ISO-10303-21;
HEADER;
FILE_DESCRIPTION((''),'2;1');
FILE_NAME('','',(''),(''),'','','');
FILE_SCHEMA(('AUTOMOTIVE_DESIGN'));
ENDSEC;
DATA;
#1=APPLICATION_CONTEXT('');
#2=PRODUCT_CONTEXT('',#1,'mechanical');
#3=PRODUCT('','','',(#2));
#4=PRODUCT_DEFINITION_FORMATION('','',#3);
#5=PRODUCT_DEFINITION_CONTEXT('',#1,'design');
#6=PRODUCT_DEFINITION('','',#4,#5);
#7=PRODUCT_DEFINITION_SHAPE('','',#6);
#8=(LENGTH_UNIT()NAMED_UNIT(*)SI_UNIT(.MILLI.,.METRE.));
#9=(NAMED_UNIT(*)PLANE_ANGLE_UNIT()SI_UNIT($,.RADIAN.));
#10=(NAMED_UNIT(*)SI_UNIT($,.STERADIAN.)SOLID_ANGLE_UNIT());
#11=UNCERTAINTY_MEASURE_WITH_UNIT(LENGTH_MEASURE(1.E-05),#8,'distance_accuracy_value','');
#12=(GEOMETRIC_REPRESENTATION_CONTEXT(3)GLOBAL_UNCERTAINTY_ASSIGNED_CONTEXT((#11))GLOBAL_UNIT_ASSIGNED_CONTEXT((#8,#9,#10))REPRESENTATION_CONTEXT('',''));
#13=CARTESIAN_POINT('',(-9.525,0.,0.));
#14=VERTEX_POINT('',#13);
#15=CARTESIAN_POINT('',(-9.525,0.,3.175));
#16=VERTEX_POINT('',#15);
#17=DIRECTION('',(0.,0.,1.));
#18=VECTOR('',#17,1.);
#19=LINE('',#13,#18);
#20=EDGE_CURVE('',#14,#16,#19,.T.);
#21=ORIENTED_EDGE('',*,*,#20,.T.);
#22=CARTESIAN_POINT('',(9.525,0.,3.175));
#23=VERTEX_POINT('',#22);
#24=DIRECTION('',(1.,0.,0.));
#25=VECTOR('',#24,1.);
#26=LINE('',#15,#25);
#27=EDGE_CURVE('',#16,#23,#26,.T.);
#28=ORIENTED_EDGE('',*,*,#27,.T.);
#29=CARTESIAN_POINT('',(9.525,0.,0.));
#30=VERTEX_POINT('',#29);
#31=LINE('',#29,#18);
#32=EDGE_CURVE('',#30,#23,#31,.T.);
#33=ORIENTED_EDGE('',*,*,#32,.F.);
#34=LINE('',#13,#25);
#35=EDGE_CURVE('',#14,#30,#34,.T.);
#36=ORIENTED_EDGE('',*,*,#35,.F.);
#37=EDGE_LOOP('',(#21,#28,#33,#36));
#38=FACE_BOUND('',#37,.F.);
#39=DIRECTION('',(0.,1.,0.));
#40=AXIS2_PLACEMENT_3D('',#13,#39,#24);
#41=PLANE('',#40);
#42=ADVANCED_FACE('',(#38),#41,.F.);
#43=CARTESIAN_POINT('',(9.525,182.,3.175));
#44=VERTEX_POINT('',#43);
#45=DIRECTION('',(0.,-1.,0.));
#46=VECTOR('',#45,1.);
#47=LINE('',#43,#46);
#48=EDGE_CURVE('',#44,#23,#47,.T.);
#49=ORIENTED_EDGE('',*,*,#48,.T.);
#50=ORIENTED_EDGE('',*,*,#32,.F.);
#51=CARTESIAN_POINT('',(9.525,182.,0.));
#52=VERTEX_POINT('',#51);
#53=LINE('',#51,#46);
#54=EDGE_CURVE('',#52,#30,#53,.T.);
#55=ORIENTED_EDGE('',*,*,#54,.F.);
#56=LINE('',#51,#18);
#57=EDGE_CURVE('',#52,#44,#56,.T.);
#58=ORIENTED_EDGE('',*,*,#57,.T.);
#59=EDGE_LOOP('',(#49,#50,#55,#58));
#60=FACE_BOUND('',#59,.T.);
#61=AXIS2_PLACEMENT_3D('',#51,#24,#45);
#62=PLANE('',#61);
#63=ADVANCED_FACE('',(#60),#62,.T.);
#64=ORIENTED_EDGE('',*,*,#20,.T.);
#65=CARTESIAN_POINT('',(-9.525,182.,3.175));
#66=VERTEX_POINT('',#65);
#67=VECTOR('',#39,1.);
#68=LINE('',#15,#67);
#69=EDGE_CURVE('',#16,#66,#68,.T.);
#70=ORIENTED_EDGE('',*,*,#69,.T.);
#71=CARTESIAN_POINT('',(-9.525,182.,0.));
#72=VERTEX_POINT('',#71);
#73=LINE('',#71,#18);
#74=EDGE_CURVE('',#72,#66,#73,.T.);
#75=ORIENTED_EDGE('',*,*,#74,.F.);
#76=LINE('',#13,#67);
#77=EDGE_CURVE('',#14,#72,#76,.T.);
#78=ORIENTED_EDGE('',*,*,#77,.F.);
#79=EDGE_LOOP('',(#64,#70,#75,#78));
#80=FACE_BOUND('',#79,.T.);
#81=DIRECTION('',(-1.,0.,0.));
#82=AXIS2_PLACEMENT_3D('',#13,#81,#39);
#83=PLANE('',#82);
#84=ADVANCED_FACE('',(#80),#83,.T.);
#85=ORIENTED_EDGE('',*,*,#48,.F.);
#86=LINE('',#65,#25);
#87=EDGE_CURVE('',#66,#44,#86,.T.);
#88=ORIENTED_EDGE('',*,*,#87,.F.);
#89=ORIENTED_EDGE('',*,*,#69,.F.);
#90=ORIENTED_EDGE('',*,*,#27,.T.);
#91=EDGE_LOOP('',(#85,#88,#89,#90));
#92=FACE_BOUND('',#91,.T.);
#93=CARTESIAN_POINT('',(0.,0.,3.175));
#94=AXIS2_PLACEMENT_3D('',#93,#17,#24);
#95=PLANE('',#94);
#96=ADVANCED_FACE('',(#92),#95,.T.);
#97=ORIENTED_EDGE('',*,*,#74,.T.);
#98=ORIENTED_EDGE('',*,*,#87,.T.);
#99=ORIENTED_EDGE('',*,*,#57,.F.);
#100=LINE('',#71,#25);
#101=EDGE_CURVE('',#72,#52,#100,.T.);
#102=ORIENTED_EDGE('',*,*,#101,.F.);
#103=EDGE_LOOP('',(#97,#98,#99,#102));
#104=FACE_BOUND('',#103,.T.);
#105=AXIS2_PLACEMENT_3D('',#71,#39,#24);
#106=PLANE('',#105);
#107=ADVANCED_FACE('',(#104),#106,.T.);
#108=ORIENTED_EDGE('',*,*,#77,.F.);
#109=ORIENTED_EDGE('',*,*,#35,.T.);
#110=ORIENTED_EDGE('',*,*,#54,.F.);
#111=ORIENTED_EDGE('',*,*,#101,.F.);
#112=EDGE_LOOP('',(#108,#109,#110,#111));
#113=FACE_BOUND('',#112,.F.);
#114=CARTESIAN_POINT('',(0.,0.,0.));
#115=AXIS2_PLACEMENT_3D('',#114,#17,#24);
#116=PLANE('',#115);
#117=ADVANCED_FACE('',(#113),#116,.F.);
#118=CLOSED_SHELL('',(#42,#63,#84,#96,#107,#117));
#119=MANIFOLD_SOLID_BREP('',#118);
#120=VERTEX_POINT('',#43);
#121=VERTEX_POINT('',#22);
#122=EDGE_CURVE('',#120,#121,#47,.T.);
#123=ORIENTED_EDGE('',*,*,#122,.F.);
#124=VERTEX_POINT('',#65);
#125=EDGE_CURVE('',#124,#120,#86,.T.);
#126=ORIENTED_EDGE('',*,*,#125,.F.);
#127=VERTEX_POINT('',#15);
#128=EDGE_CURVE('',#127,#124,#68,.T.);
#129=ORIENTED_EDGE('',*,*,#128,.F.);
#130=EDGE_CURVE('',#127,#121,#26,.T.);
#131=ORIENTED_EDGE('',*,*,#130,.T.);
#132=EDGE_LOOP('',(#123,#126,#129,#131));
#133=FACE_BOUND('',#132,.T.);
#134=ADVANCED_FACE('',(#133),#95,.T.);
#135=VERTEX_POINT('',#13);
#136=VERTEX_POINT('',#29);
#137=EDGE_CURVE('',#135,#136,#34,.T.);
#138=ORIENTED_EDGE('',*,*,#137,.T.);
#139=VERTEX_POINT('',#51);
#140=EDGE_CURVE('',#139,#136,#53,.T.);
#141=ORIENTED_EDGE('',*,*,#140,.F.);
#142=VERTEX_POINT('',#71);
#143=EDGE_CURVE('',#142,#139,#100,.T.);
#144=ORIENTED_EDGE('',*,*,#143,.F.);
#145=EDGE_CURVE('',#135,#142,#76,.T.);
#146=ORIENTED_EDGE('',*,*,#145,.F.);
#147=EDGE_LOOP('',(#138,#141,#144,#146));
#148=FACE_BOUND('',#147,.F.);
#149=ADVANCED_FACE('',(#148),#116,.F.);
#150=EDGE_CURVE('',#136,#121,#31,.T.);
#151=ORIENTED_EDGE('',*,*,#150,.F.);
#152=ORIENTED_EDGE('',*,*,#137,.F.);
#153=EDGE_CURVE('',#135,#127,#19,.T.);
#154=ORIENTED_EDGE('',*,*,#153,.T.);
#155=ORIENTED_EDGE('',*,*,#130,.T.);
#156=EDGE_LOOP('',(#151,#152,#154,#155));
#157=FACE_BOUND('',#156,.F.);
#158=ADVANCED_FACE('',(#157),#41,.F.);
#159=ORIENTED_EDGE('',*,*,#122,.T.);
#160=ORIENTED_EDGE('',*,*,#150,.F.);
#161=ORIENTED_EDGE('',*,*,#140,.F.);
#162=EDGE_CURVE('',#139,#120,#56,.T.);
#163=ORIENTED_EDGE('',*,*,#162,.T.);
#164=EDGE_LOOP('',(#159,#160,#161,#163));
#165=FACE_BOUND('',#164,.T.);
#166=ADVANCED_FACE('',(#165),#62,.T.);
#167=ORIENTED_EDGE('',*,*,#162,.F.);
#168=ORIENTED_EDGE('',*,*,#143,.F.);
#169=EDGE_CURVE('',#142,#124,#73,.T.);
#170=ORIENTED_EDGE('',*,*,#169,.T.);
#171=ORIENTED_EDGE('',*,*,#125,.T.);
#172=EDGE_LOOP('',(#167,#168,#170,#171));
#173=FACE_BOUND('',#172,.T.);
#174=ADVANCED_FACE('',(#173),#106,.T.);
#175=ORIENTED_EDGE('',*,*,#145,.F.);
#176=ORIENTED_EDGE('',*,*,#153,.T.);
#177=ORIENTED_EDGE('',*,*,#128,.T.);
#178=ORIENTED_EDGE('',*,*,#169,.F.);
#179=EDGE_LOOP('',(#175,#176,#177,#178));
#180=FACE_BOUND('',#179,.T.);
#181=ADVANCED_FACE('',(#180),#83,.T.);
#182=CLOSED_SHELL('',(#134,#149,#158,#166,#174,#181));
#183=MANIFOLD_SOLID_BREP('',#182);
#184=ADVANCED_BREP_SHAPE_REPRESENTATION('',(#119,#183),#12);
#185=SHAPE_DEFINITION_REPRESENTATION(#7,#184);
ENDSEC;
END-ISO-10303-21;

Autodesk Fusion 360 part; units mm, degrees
ref_plane "WorkPlane12" through (0, -1, 0) normal (0, 1, 0) x (0, 0, 1)
sketch "MyStock" plane through (0, 0, 0) normal (0, 0, 1) x (1, 0, 0)
  line L0 (-9.525, 182) -> (9.525, 182)
  line L1 (9.525, 182) -> (9.525, 0)
  line L2 (-9.525, 0) -> (-9.525, 182)
  line L3 (-9.525, 0) -> (9.525, 0)
  dimension "d2016" = 9.525
  dimension "d2017" = 9.525
  dimension "d2102" = 182
extrude "Extrude21" add sketch "MyStock" along normal blind 3.175 makes body 1
sketch "Box Big part" plane through (0, 0, 0) normal (0, 0, 1) x (1, 0, 0)
  line L0 (-224.905, 0) -> (-240, 0)
  line L1 (0, 16.095) -> (0, 0)
  line L2 (-240, 0) -> (-224.905, 0)
  line L3 (-224.905, 0) -> (-224.905, 1.5613)
  line L4 (-223.7758, 3.175) -> (-216.2242, 3.175)
  line L5 (-215.095, 1.5613) -> (-215.095, 0)
  line L6 (-240, 16.095) -> (-238.4387, 16.095)
  line L7 (-236.825, 17.2242) -> (-236.825, 24.7758)
  line L8 (-238.4387, 25.905) -> (-240, 25.905)
  line L9 (-215.095, 0) -> (-204.905, 0)
  line L10 (1.75, 0) -> (22.5, 0)
  arc A0 (-215.095, 1.5613) -> (-216.2242, 3.175) centre (-215.5171, 2.4679) ccw
  arc A1 (-223.7758, 3.175) -> (-224.905, 1.5613) centre (-224.4829, 2.4679) ccw
  line L11 (-240, 0) -> (-240, 16.095)
  line L12 (-240, 25.905) -> (-240, 36.095)
  arc A2 (-238.4387, 16.095) -> (-236.825, 17.2242) centre (-237.5321, 16.5171) ccw
  arc A3 (-236.825, 24.7758) -> (-238.4387, 25.905) centre (-237.5321, 25.4829) ccw
  line L13 (-302, 91) -> (0, 91) construction
  line L14 (-120, -20) -> (-120, 200) construction
  arc A4 (-1.5613, 25.905) -> (-3.175, 24.7758) centre (-2.4679, 25.4829) ccw
  arc A5 (-3.175, 17.2242) -> (-1.5613, 16.095) centre (-2.4679, 16.5171) ccw
  line L15 (-3.175, 17.2242) -> (-3.175, 24.7758)
  line L16 (-1.5613, 25.905) -> (0, 25.905)
  line L17 (0, 25.905) -> (0, 36.095)
  line L18 (0, 16.095) -> (-1.5613, 16.095)
  line L19 (0, 16.095) -> (0, 0)
  line L20 (-215.095, 180.4387) -> (-215.095, 182)
  line L21 (-224.905, 182) -> (-224.905, 180.4387)
  line L22 (-215.095, 182) -> (-204.905, 182)
  arc A6 (-216.2242, 178.825) -> (-215.095, 180.4387) centre (-215.5171, 179.5321) ccw
  line L23 (-224.905, 182) -> (-240, 182)
  arc A7 (-224.905, 180.4387) -> (-223.7758, 178.825) centre (-224.4829, 179.5321) ccw
  line L24 (-223.7758, 178.825) -> (-216.2242, 178.825)
  line L25 (-240, 182) -> (-224.905, 182)
  arc A8 (-195.095, 1.5613) -> (-196.2242, 3.175) centre (-195.5171, 2.4679) ccw
  line L26 (-195.095, 1.5613) -> (-195.095, 0)
  arc A9 (-203.7758, 3.175) -> (-204.905, 1.5613) centre (-204.4829, 2.4679) ccw
  line L27 (-195.095, 0) -> (-184.905, 0)
  line L28 (-203.7758, 3.175) -> (-196.2242, 3.175)
  line L29 (-204.905, 0) -> (-204.905, 1.5613)
  arc A10 (-175.095, 1.5613) -> (-176.2242, 3.175) centre (-175.5171, 2.4679) ccw
  line L30 (-175.095, 1.5613) -> (-175.095, 0)
  arc A11 (-183.7758, 3.175) -> (-184.905, 1.5613) centre (-184.4829, 2.4679) ccw
  line L31 (-175.095, 0) -> (-164.905, 0)
  line L32 (-183.7758, 3.175) -> (-176.2242, 3.175)
  line L33 (-184.905, 0) -> (-184.905, 1.5613)
  arc A12 (-155.095, 1.5613) -> (-156.2242, 3.175) centre (-155.5171, 2.4679) ccw
  line L34 (-155.095, 1.5613) -> (-155.095, 0)
  arc A13 (-163.7758, 3.175) -> (-164.905, 1.5613) centre (-164.4829, 2.4679) ccw
  line L35 (-155.095, 0) -> (-144.905, 0)
  line L36 (-163.7758, 3.175) -> (-156.2242, 3.175)
  line L37 (-164.905, 0) -> (-164.905, 1.5613)
  arc A14 (-135.095, 1.5613) -> (-136.2242, 3.175) centre (-135.5171, 2.4679) ccw
  line L38 (-135.095, 1.5613) -> (-135.095, 0)
  arc A15 (-143.7758, 3.175) -> (-144.905, 1.5613) centre (-144.4829, 2.4679) ccw
  line L39 (-135.095, 0) -> (-124.905, 0)
  line L40 (-143.7758, 3.175) -> (-136.2242, 3.175)
  line L41 (-144.905, 0) -> (-144.905, 1.5613)
  arc A16 (-115.095, 1.5613) -> (-116.2242, 3.175) centre (-115.5171, 2.4679) ccw
  line L42 (-115.095, 1.5613) -> (-115.095, 0)
  arc A17 (-123.7758, 3.175) -> (-124.905, 1.5613) centre (-124.4829, 2.4679) ccw
  line L43 (-115.095, 0) -> (-104.905, 0)
  line L44 (-123.7758, 3.175) -> (-116.2242, 3.175)
  line L45 (-124.905, 0) -> (-124.905, 1.5613)
  arc A18 (-95.095, 1.5613) -> (-96.2242, 3.175) centre (-95.5171, 2.4679) ccw
  line L46 (-95.095, 1.5613) -> (-95.095, 0)
  arc A19 (-103.7758, 3.175) -> (-104.905, 1.5613) centre (-104.4829, 2.4679) ccw
  line L47 (-95.095, 0) -> (-84.905, 0)
  line L48 (-103.7758, 3.175) -> (-96.2242, 3.175)
  line L49 (-104.905, 0) -> (-104.905, 1.5613)
  line L50 (0, 0) -> (-4.905, 0)
  line L51 (-238.4387, 45.905) -> (-240, 45.905)
  line L52 (-240, 36.095) -> (-238.4387, 36.095)
  arc A20 (-238.4387, 36.095) -> (-236.825, 37.2242) centre (-237.5321, 36.5171) ccw
  line L53 (-240, 45.905) -> (-240, 56.095)
  arc A21 (-236.825, 44.7758) -> (-238.4387, 45.905) centre (-237.5321, 45.4829) ccw
  line L54 (-236.825, 37.2242) -> (-236.825, 44.7758)
  line L55 (-238.4387, 65.905) -> (-240, 65.905)
  line L56 (-240, 56.095) -> (-238.4387, 56.095)
  arc A22 (-238.4387, 56.095) -> (-236.825, 57.2242) centre (-237.5321, 56.5171) ccw
  line L57 (-240, 65.905) -> (-240, 76.095)
  arc A23 (-236.825, 64.7758) -> (-238.4387, 65.905) centre (-237.5321, 65.4829) ccw
  line L58 (-236.825, 57.2242) -> (-236.825, 64.7758)
  line L59 (-238.4387, 85.905) -> (-240, 85.905)
  line L60 (-240, 76.095) -> (-238.4387, 76.095)
  arc A24 (-238.4387, 76.095) -> (-236.825, 77.2242) centre (-237.5321, 76.5171) ccw
  line L61 (-240, 85.905) -> (-240, 96.095)
  arc A25 (-236.825, 84.7758) -> (-238.4387, 85.905) centre (-237.5321, 85.4829) ccw
  line L62 (-236.825, 77.2242) -> (-236.825, 84.7758)
  line L63 (-238.4387, 105.905) -> (-240, 105.905)
  line L64 (-240, 96.095) -> (-238.4387, 96.095)
  arc A26 (-238.4387, 96.095) -> (-236.825, 97.2242) centre (-237.5321, 96.5171) ccw
  line L65 (-240, 105.905) -> (-240, 116.095)
  arc A27 (-236.825, 104.7758) -> (-238.4387, 105.905) centre (-237.5321, 105.4829) ccw
  line L66 (-236.825, 97.2242) -> (-236.825, 104.7758)
  arc A28 (-196.2242, 178.825) -> (-195.095, 180.4387) centre (-195.5171, 179.5321) ccw
  line L67 (-195.095, 180.4387) -> (-195.095, 182)
  arc A29 (-204.905, 180.4387) -> (-203.7758, 178.825) centre (-204.4829, 179.5321) ccw
  line L68 (-203.7758, 178.825) -> (-196.2242, 178.825)
  line L69 (-204.905, 182) -> (-204.905, 180.4387)
  line L70 (-195.095, 182) -> (-184.905, 182)
  arc A30 (-176.2242, 178.825) -> (-175.095, 180.4387) centre (-175.5171, 179.5321) ccw
  line L71 (-175.095, 180.4387) -> (-175.095, 182)
  arc A31 (-184.905, 180.4387) -> (-183.7758, 178.825) centre (-184.4829, 179.5321) ccw
  line L72 (-183.7758, 178.825) -> (-176.2242, 178.825)
  line L73 (-184.905, 182) -> (-184.905, 180.4387)
  line L74 (-175.095, 182) -> (-164.905, 182)
  arc A32 (-156.2242, 178.825) -> (-155.095, 180.4387) centre (-155.5171, 179.5321) ccw
  line L75 (-155.095, 180.4387) -> (-155.095, 182)
  arc A33 (-164.905, 180.4387) -> (-163.7758, 178.825) centre (-164.4829, 179.5321) ccw
  line L76 (-163.7758, 178.825) -> (-156.2242, 178.825)
  line L77 (-164.905, 182) -> (-164.905, 180.4387)
  line L78 (-155.095, 182) -> (-144.905, 182)
  arc A34 (-136.2242, 178.825) -> (-135.095, 180.4387) centre (-135.5171, 179.5321) ccw
  line L79 (-135.095, 180.4387) -> (-135.095, 182)
  arc A35 (-144.905, 180.4387) -> (-143.7758, 178.825) centre (-144.4829, 179.5321) ccw
  line L80 (-143.7758, 178.825) -> (-136.2242, 178.825)
  line L81 (-144.905, 182) -> (-144.905, 180.4387)
  line L82 (-135.095, 182) -> (-124.905, 182)
  arc A36 (-116.2242, 178.825) -> (-115.095, 180.4387) centre (-115.5171, 179.5321) ccw
  line L83 (-115.095, 180.4387) -> (-115.095, 182)
  arc A37 (-124.905, 180.4387) -> (-123.7758, 178.825) centre (-124.4829, 179.5321) ccw
  line L84 (-123.7758, 178.825) -> (-116.2242, 178.825)
  line L85 (-124.905, 182) -> (-124.905, 180.4387)
  line L86 (-115.095, 182) -> (-104.905, 182)
  arc A38 (-96.2242, 178.825) -> (-95.095, 180.4387) centre (-95.5171, 179.5321) ccw
  line L87 (-95.095, 180.4387) -> (-95.095, 182)
  arc A39 (-104.905, 180.4387) -> (-103.7758, 178.825) centre (-104.4829, 179.5321) ccw
  line L88 (-103.7758, 178.825) -> (-96.2242, 178.825)
  line L89 (-104.905, 182) -> (-104.905, 180.4387)
  line L90 (-95.095, 182) -> (-84.905, 182)
  line L91 (0, 182) -> (-4.905, 182)
  line L92 (-3.175, 37.2242) -> (-3.175, 44.7758)
  line L93 (-1.5613, 45.905) -> (0, 45.905)
  line L94 (0, 45.905) -> (0, 56.095)
  arc A40 (-1.5613, 45.905) -> (-3.175, 44.7758) centre (-2.4679, 45.4829) ccw
  line L95 (0, 36.095) -> (-1.5613, 36.095)
  line L96 (-3.175, 57.2242) -> (-3.175, 64.7758)
  line L97 (-1.5613, 65.905) -> (0, 65.905)
  line L98 (0, 65.905) -> (0, 76.095)
  arc A41 (-1.5613, 65.905) -> (-3.175, 64.7758) centre (-2.4679, 65.4829) ccw
  line L99 (0, 56.095) -> (-1.5613, 56.095)
  line L100 (-3.175, 77.2242) -> (-3.175, 84.7758)
  line L101 (-1.5613, 85.905) -> (0, 85.905)
  line L102 (0, 85.905) -> (0, 96.095)
  arc A42 (-1.5613, 85.905) -> (-3.175, 84.7758) centre (-2.4679, 85.4829) ccw
  line L103 (0, 76.095) -> (-1.5613, 76.095)
  line L104 (-3.175, 97.2242) -> (-3.175, 104.7758)
  line L105 (-1.5613, 105.905) -> (0, 105.905)
  line L106 (0, 105.905) -> (0, 116.095)
  arc A43 (-1.5613, 105.905) -> (-3.175, 104.7758) centre (-2.4679, 105.4829) ccw
  line L107 (0, 96.095) -> (-1.5613, 96.095)
  arc A44 (-3.175, 37.2242) -> (-1.5613, 36.095) centre (-2.4679, 36.5171) ccw
  arc A45 (-3.175, 57.2242) -> (-1.5613, 56.095) centre (-2.4679, 56.5171) ccw
  arc A46 (-3.175, 77.2242) -> (-1.5613, 76.095) centre (-2.4679, 76.5171) ccw
  arc A47 (-3.175, 97.2242) -> (-1.5613, 96.095) centre (-2.4679, 96.5171) ccw
  line L108 (0, 182) -> (0, 176.095)
  line L109 (-240, 182) -> (-240, 176.095)
  arc A48 (-75.095, 1.5613) -> (-76.2242, 3.175) centre (-75.5171, 2.4679) ccw
  line L110 (-75.095, 1.5613) -> (-75.095, 0)
  arc A49 (-83.7758, 3.175) -> (-84.905, 1.5613) centre (-84.4829, 2.4679) ccw
  line L111 (-75.095, 0) -> (-64.905, 0)
  line L112 (-83.7758, 3.175) -> (-76.2242, 3.175)
  line L113 (-84.905, 0) -> (-84.905, 1.5613)
  arc A50 (-55.095, 1.5613) -> (-56.2242, 3.175) centre (-55.5171, 2.4679) ccw
  line L114 (-55.095, 1.5613) -> (-55.095, 0)
  arc A51 (-63.7758, 3.175) -> (-64.905, 1.5613) centre (-64.4829, 2.4679) ccw
  line L115 (-55.095, 0) -> (-44.905, 0)
  line L116 (-63.7758, 3.175) -> (-56.2242, 3.175)
  line L117 (-64.905, 0) -> (-64.905, 1.5613)
  arc A52 (-35.095, 1.5613) -> (-36.2242, 3.175) centre (-35.5171, 2.4679) ccw
  line L118 (-35.095, 1.5613) -> (-35.095, 0)
  arc A53 (-43.7758, 3.175) -> (-44.905, 1.5613) centre (-44.4829, 2.4679) ccw
  line L119 (-35.095, 0) -> (-24.905, 0)
  line L120 (-43.7758, 3.175) -> (-36.2242, 3.175)
  line L121 (-44.905, 0) -> (-44.905, 1.5613)
  arc A54 (-15.095, 1.5613) -> (-16.2242, 3.175) centre (-15.5171, 2.4679) ccw
  line L122 (-15.095, 1.5613) -> (-15.095, 0)
  arc A55 (-23.7758, 3.175) -> (-24.905, 1.5613) centre (-24.4829, 2.4679) ccw
  line L123 (-15.095, 0) -> (-4.905, 0)
  line L124 (-23.7758, 3.175) -> (-16.2242, 3.175)
  line L125 (-24.905, 0) -> (-24.905, 1.5613)
  line L126 (-238.4387, 125.905) -> (-240, 125.905)
  line L127 (-240, 116.095) -> (-238.4387, 116.095)
  arc A56 (-238.4387, 116.095) -> (-236.825, 117.2242) centre (-237.5321, 116.5171) ccw
  line L128 (-240, 125.905) -> (-240, 136.095)
  arc A57 (-236.825, 124.7758) -> (-238.4387, 125.905) centre (-237.5321, 125.4829) ccw
  line L129 (-236.825, 117.2242) -> (-236.825, 124.7758)
  line L130 (-238.4387, 145.905) -> (-240, 145.905)
  line L131 (-240, 136.095) -> (-238.4387, 136.095)
  arc A58 (-238.4387, 136.095) -> (-236.825, 137.2242) centre (-237.5321, 136.5171) ccw
  line L132 (-240, 145.905) -> (-240, 156.095)
  arc A59 (-236.825, 144.7758) -> (-238.4387, 145.905) centre (-237.5321, 145.4829) ccw
  line L133 (-236.825, 137.2242) -> (-236.825, 144.7758)
  line L134 (-238.4387, 165.905) -> (-240, 165.905)
  line L135 (-240, 156.095) -> (-238.4387, 156.095)
  arc A60 (-238.4387, 156.095) -> (-236.825, 157.2242) centre (-237.5321, 156.5171) ccw
  line L136 (-240, 165.905) -> (-240, 176.095)
  arc A61 (-236.825, 164.7758) -> (-238.4387, 165.905) centre (-237.5321, 165.4829) ccw
  line L137 (-236.825, 157.2242) -> (-236.825, 164.7758)
  arc A62 (-76.2242, 178.825) -> (-75.095, 180.4387) centre (-75.5171, 179.5321) ccw
  line L138 (-75.095, 180.4387) -> (-75.095, 182)
  arc A63 (-84.905, 180.4387) -> (-83.7758, 178.825) centre (-84.4829, 179.5321) ccw
  line L139 (-83.7758, 178.825) -> (-76.2242, 178.825)
  line L140 (-84.905, 182) -> (-84.905, 180.4387)
  line L141 (-75.095, 182) -> (-64.905, 182)
  arc A64 (-56.2242, 178.825) -> (-55.095, 180.4387) centre (-55.5171, 179.5321) ccw
  line L142 (-55.095, 180.4387) -> (-55.095, 182)
  arc A65 (-64.905, 180.4387) -> (-63.7758, 178.825) centre (-64.4829, 179.5321) ccw
  line L143 (-63.7758, 178.825) -> (-56.2242, 178.825)
  line L144 (-64.905, 182) -> (-64.905, 180.4387)
  line L145 (-55.095, 182) -> (-44.905, 182)
  arc A66 (-36.2242, 178.825) -> (-35.095, 180.4387) centre (-35.5171, 179.5321) ccw
  line L146 (-35.095, 180.4387) -> (-35.095, 182)
  arc A67 (-44.905, 180.4387) -> (-43.7758, 178.825) centre (-44.4829, 179.5321) ccw
  line L147 (-43.7758, 178.825) -> (-36.2242, 178.825)
  line L148 (-44.905, 182) -> (-44.905, 180.4387)
  line L149 (-35.095, 182) -> (-24.905, 182)
  arc A68 (-16.2242, 178.825) -> (-15.095, 180.4387) centre (-15.5171, 179.5321) ccw
  line L150 (-15.095, 180.4387) -> (-15.095, 182)
  arc A69 (-24.905, 180.4387) -> (-23.7758, 178.825) centre (-24.4829, 179.5321) ccw
  line L151 (-23.7758, 178.825) -> (-16.2242, 178.825)
  line L152 (-24.905, 182) -> (-24.905, 180.4387)
  line L153 (-15.095, 182) -> (-4.905, 182)
  line L154 (-3.175, 117.2242) -> (-3.175, 124.7758)
  line L155 (-1.5613, 125.905) -> (0, 125.905)
  line L156 (0, 125.905) -> (0, 136.095)
  arc A70 (-1.5613, 125.905) -> (-3.175, 124.7758) centre (-2.4679, 125.4829) ccw
  line L157 (0, 116.095) -> (-1.5613, 116.095)
  arc A71 (-3.175, 117.2242) -> (-1.5613, 116.095) centre (-2.4679, 116.5171) ccw
  line L158 (-3.175, 137.2242) -> (-3.175, 144.7758)
  line L159 (-1.5613, 145.905) -> (0, 145.905)
  line L160 (0, 145.905) -> (0, 156.095)
  arc A72 (-1.5613, 145.905) -> (-3.175, 144.7758) centre (-2.4679, 145.4829) ccw
  line L161 (0, 136.095) -> (-1.5613, 136.095)
  arc A73 (-3.175, 137.2242) -> (-1.5613, 136.095) centre (-2.4679, 136.5171) ccw
  line L162 (-3.175, 157.2242) -> (-3.175, 164.7758)
  line L163 (-1.5613, 165.905) -> (0, 165.905)
  line L164 (0, 165.905) -> (0, 176.095)
  arc A74 (-1.5613, 165.905) -> (-3.175, 164.7758) centre (-2.4679, 165.4829) ccw
  line L165 (0, 156.095) -> (-1.5613, 156.095)
  arc A75 (-3.175, 157.2242) -> (-1.5613, 156.095) centre (-2.4679, 156.5171) ccw
  dimension "d34" = 2
  dimension "d36" = 0.4221
  dimension "d37" = 0.7071
  dimension "d38" = 0.4221
  dimension "d48" = 2
  dimension "d49" = 0.4221
  dimension "d50" = 16.095
  dimension "d52" = 0.4221
  dimension "d54" = 0.7071
  dimension "d55" = 9.81
  dimension "d189" = 15.095
  dimension "d473" = 240
  dimension "d2062" = 10.19
  dimension "d2063" = 9.81
  dimension "d2064" = 3.175
  dimension "d2068" = 3.175
  dimension "d2069" = 10.19
  dimension "d2071" = 120
  dimension "d2074" = 20
  dimension "d2075" = 0
  dimension "d2076" = 4.905
  dimension "d2080" = 0
  dimension "d2081" = 20
  dimension "d2084" = 20
  dimension "d2085" = 0
  dimension "d2087" = 4.905
  dimension "d2088" = 182
  dimension "d2091" = 0
  dimension "d2092" = 20
  dimension "d2095" = 5.905
  dimension "d2097" = 5.905
  dimension "d2098" = 182
  dimension "d2103" = 91
sketch "Box Medium part" plane through (0, 0, 0) normal (0, 0, 1) x (1, 0, 0)
  line L0 (28.2242, 3.175) -> (35.7758, 3.175)
  line L1 (240.4387, 14.905) -> (242, 14.905)
  line L2 (238.825, 3.175) -> (238.825, 13.7758)
  line L3 (242, 25.095) -> (240.4387, 25.095)
  line L4 (2, 60) -> (242, 60) construction
  line L5 (27.095, 0) -> (27.095, 1.5613)
  line L6 (240.4387, 34.905) -> (242, 34.905)
  line L7 (5.175, 3.175) -> (15.7758, 3.175)
  line L8 (36.905, 1.5613) -> (36.905, 0)
  line L9 (242, 60) -> (242, 0) construction
  line L10 (238.825, 26.2242) -> (238.825, 33.7758)
  line L11 (16.905, 1.5613) -> (16.905, 0)
  line L12 (2, -28) -> (2, 0) construction
  arc A0 (16.905, 1.5613) -> (15.7758, 3.175) centre (16.4829, 2.4679) ccw
  arc A1 (28.2242, 3.175) -> (27.095, 1.5613) centre (27.5171, 2.4679) ccw
  arc A2 (36.905, 1.5613) -> (35.7758, 3.175) centre (36.4829, 2.4679) ccw
  arc A3 (240.4387, 14.905) -> (238.825, 13.7758) centre (239.5321, 14.4829) ccw
  line L13 (16.905, 0) -> (27.095, 0)
  line L14 (-22, 30) -> (297, 30) construction
  line L15 (122, -24.8824) -> (122, 81) construction
  arc A4 (238.825, 26.2242) -> (240.4387, 25.095) centre (239.5321, 25.5171) ccw
  arc A5 (240.4387, 34.905) -> (238.825, 33.7758) centre (239.5321, 34.4829) ccw
  line L16 (36.905, 0) -> (47.095, 0)
  line L17 (242, 34.905) -> (242, 45.095)
  line L18 (2, -28) -> (2, 30) construction
  line L19 (2, 60) -> (2, 30) construction
  line L20 (0, 0) -> (47.095, 0) construction
  line L21 (122, 0) -> (242, 0) construction
  line L22 (36.905, 58.4387) -> (36.905, 60)
  arc A6 (35.7758, 56.825) -> (36.905, 58.4387) centre (36.4829, 57.5321) ccw
  line L23 (36.905, 60) -> (47.095, 60)
  arc A7 (15.7758, 56.825) -> (16.905, 58.4387) centre (16.4829, 57.5321) ccw
  line L24 (27.095, 60) -> (27.095, 58.4387)
  line L25 (16.905, 58.4387) -> (16.905, 60)
  arc A8 (27.095, 58.4387) -> (28.2242, 56.825) centre (27.5171, 57.5321) ccw
  line L26 (16.905, 60) -> (27.095, 60)
  line L27 (28.2242, 56.825) -> (35.7758, 56.825)
  line L28 (0, 60) -> (47.095, 60) construction
  line L29 (5.175, 56.825) -> (15.7758, 56.825)
  line L30 (3.5613, 14.905) -> (2, 14.905)
  arc A9 (5.175, 33.7758) -> (3.5613, 34.905) centre (4.4679, 34.4829) ccw
  line L31 (5.175, 3.175) -> (5.175, 13.7758)
  line L32 (3.5613, 34.905) -> (2, 34.905)
  line L33 (5.175, 26.2242) -> (5.175, 33.7758)
  line L34 (2, 25.095) -> (3.5613, 25.095)
  arc A10 (5.175, 13.7758) -> (3.5613, 14.905) centre (4.4679, 14.4829) ccw
  arc A11 (3.5613, 25.095) -> (5.175, 26.2242) centre (4.4679, 25.5171) ccw
  line L35 (2, 34.905) -> (2, 45.095)
  arc A12 (56.905, 1.5613) -> (55.7758, 3.175) centre (56.4829, 2.4679) ccw
  line L36 (48.2242, 3.175) -> (55.7758, 3.175)
  arc A13 (48.2242, 3.175) -> (47.095, 1.5613) centre (47.5171, 2.4679) ccw
  line L37 (56.905, 0) -> (67.095, 0)
  line L38 (56.905, 1.5613) -> (56.905, 0)
  line L39 (47.095, 0) -> (47.095, 1.5613)
  arc A14 (76.905, 1.5613) -> (75.7758, 3.175) centre (76.4829, 2.4679) ccw
  line L40 (68.2242, 3.175) -> (75.7758, 3.175)
  arc A15 (68.2242, 3.175) -> (67.095, 1.5613) centre (67.5171, 2.4679) ccw
  line L41 (76.905, 0) -> (87.095, 0)
  line L42 (76.905, 1.5613) -> (76.905, 0)
  line L43 (67.095, 0) -> (67.095, 1.5613)
  arc A16 (96.905, 1.5613) -> (95.7758, 3.175) centre (96.4829, 2.4679) ccw
  line L44 (88.2242, 3.175) -> (95.7758, 3.175)
  arc A17 (88.2242, 3.175) -> (87.095, 1.5613) centre (87.5171, 2.4679) ccw
  line L45 (96.905, 0) -> (107.095, 0)
  line L46 (96.905, 1.5613) -> (96.905, 0)
  line L47 (87.095, 0) -> (87.095, 1.5613)
  arc A18 (116.905, 1.5613) -> (115.7758, 3.175) centre (116.4829, 2.4679) ccw
  line L48 (108.2242, 3.175) -> (115.7758, 3.175)
  arc A19 (108.2242, 3.175) -> (107.095, 1.5613) centre (107.5171, 2.4679) ccw
  line L49 (116.905, 0) -> (127.095, 0)
  line L50 (116.905, 1.5613) -> (116.905, 0)
  line L51 (107.095, 0) -> (107.095, 1.5613)
  arc A20 (136.905, 1.5613) -> (135.7758, 3.175) centre (136.4829, 2.4679) ccw
  line L52 (128.2242, 3.175) -> (135.7758, 3.175)
  arc A21 (128.2242, 3.175) -> (127.095, 1.5613) centre (127.5171, 2.4679) ccw
  line L53 (136.905, 0) -> (147.095, 0)
  line L54 (136.905, 1.5613) -> (136.905, 0)
  line L55 (127.095, 0) -> (127.095, 1.5613)
  line L56 (47.095, 60) -> (47.095, 58.4387)
  line L57 (48.2242, 56.825) -> (55.7758, 56.825)
  arc A22 (55.7758, 56.825) -> (56.905, 58.4387) centre (56.4829, 57.5321) ccw
  arc A23 (47.095, 58.4387) -> (48.2242, 56.825) centre (47.5171, 57.5321) ccw
  line L58 (56.905, 60) -> (67.095, 60)
  line L59 (56.905, 58.4387) -> (56.905, 60)
  line L60 (67.095, 60) -> (67.095, 58.4387)
  line L61 (68.2242, 56.825) -> (75.7758, 56.825)
  arc A24 (75.7758, 56.825) -> (76.905, 58.4387) centre (76.4829, 57.5321) ccw
  arc A25 (67.095, 58.4387) -> (68.2242, 56.825) centre (67.5171, 57.5321) ccw
  line L62 (76.905, 60) -> (87.095, 60)
  line L63 (76.905, 58.4387) -> (76.905, 60)
  line L64 (87.095, 60) -> (87.095, 58.4387)
  line L65 (88.2242, 56.825) -> (95.7758, 56.825)
  arc A26 (95.7758, 56.825) -> (96.905, 58.4387) centre (96.4829, 57.5321) ccw
  arc A27 (87.095, 58.4387) -> (88.2242, 56.825) centre (87.5171, 57.5321) ccw
  line L66 (96.905, 60) -> (107.095, 60)
  line L67 (96.905, 58.4387) -> (96.905, 60)
  line L68 (107.095, 60) -> (107.095, 58.4387)
  line L69 (108.2242, 56.825) -> (115.7758, 56.825)
  arc A28 (115.7758, 56.825) -> (116.905, 58.4387) centre (116.4829, 57.5321) ccw
  arc A29 (107.095, 58.4387) -> (108.2242, 56.825) centre (107.5171, 57.5321) ccw
  line L70 (116.905, 60) -> (127.095, 60)
  line L71 (116.905, 58.4387) -> (116.905, 60)
  line L72 (127.095, 60) -> (127.095, 58.4387)
  line L73 (128.2242, 56.825) -> (135.7758, 56.825)
  arc A30 (135.7758, 56.825) -> (136.905, 58.4387) centre (136.4829, 57.5321) ccw
  arc A31 (127.095, 58.4387) -> (128.2242, 56.825) centre (127.5171, 57.5321) ccw
  line L74 (136.905, 60) -> (147.095, 60)
  line L75 (136.905, 58.4387) -> (136.905, 60)
  line L76 (227.095, 1.5613) -> (227.095, 0)
  arc A32 (228.2242, 3.175) -> (227.095, 1.5613) centre (227.5171, 2.4679) ccw
  line L77 (238.825, 3.175) -> (228.2242, 3.175)
  line L78 (242, 88) -> (242, 60) construction
  line L79 (227.095, 58.4387) -> (227.095, 60)
  line L80 (242, 60) -> (242, 30) construction
  arc A33 (227.095, 58.4387) -> (228.2242, 56.825) centre (227.5171, 57.5321) ccw
  line L81 (238.825, 56.825) -> (228.2242, 56.825)
  line L82 (2, 14.905) -> (2, 25.095)
  arc A34 (3.5613, 45.095) -> (5.175, 46.2242) centre (4.4679, 45.5171) ccw
  line L83 (3.5613, 45.095) -> (2, 45.095)
  line L84 (5.175, 56.825) -> (5.175, 46.2242)
  arc A35 (238.825, 46.2242) -> (240.4387, 45.095) centre (239.5321, 45.5171) ccw
  line L85 (240.4387, 45.095) -> (242, 45.095)
  line L86 (238.825, 56.825) -> (238.825, 46.2242)
  line L87 (242, 25.095) -> (242, 14.905)
  arc A36 (156.905, 1.5613) -> (155.7758, 3.175) centre (156.4829, 2.4679) ccw
  line L88 (148.2242, 3.175) -> (155.7758, 3.175)
  arc A37 (148.2242, 3.175) -> (147.095, 1.5613) centre (147.5171, 2.4679) ccw
  line L89 (156.905, 0) -> (167.095, 0)
  line L90 (156.905, 1.5613) -> (156.905, 0)
  line L91 (147.095, 0) -> (147.095, 1.5613)
  arc A38 (176.905, 1.5613) -> (175.7758, 3.175) centre (176.4829, 2.4679) ccw
  line L92 (168.2242, 3.175) -> (175.7758, 3.175)
  arc A39 (168.2242, 3.175) -> (167.095, 1.5613) centre (167.5171, 2.4679) ccw
  line L93 (176.905, 0) -> (187.095, 0)
  line L94 (176.905, 1.5613) -> (176.905, 0)
  line L95 (167.095, 0) -> (167.095, 1.5613)
  arc A40 (196.905, 1.5613) -> (195.7758, 3.175) centre (196.4829, 2.4679) ccw
  line L96 (188.2242, 3.175) -> (195.7758, 3.175)
  arc A41 (188.2242, 3.175) -> (187.095, 1.5613) centre (187.5171, 2.4679) ccw
  line L97 (196.905, 0) -> (207.095, 0)
  line L98 (196.905, 1.5613) -> (196.905, 0)
  line L99 (187.095, 0) -> (187.095, 1.5613)
  arc A42 (216.905, 1.5613) -> (215.7758, 3.175) centre (216.4829, 2.4679) ccw
  line L100 (208.2242, 3.175) -> (215.7758, 3.175)
  arc A43 (208.2242, 3.175) -> (207.095, 1.5613) centre (207.5171, 2.4679) ccw
  line L101 (216.905, 0) -> (227.095, 0)
  line L102 (216.905, 1.5613) -> (216.905, 0)
  line L103 (207.095, 0) -> (207.095, 1.5613)
  line L104 (147.095, 60) -> (147.095, 58.4387)
  line L105 (148.2242, 56.825) -> (155.7758, 56.825)
  arc A44 (155.7758, 56.825) -> (156.905, 58.4387) centre (156.4829, 57.5321) ccw
  arc A45 (147.095, 58.4387) -> (148.2242, 56.825) centre (147.5171, 57.5321) ccw
  line L106 (156.905, 60) -> (167.095, 60)
  line L107 (156.905, 58.4387) -> (156.905, 60)
  line L108 (167.095, 60) -> (167.095, 58.4387)
  line L109 (168.2242, 56.825) -> (175.7758, 56.825)
  arc A46 (175.7758, 56.825) -> (176.905, 58.4387) centre (176.4829, 57.5321) ccw
  arc A47 (167.095, 58.4387) -> (168.2242, 56.825) centre (167.5171, 57.5321) ccw
  line L110 (176.905, 60) -> (187.095, 60)
  line L111 (176.905, 58.4387) -> (176.905, 60)
  line L112 (187.095, 60) -> (187.095, 58.4387)
  line L113 (188.2242, 56.825) -> (195.7758, 56.825)
  arc A48 (195.7758, 56.825) -> (196.905, 58.4387) centre (196.4829, 57.5321) ccw
  arc A49 (187.095, 58.4387) -> (188.2242, 56.825) centre (187.5171, 57.5321) ccw
  line L114 (196.905, 60) -> (207.095, 60)
  line L115 (196.905, 58.4387) -> (196.905, 60)
  line L116 (207.095, 60) -> (207.095, 58.4387)
  line L117 (208.2242, 56.825) -> (215.7758, 56.825)
  arc A50 (215.7758, 56.825) -> (216.905, 58.4387) centre (216.4829, 57.5321) ccw
  arc A51 (207.095, 58.4387) -> (208.2242, 56.825) centre (207.5171, 57.5321) ccw
  line L118 (216.905, 60) -> (227.095, 60)
  line L119 (216.905, 58.4387) -> (216.905, 60)
  point P0 (0, 60)
  point P1 (0, 60)
  point P2 (0, 60)
  point P3 (0, 60)
  point P4 (0, 60)
  point P5 (244, 60)
  point P6 (244, 60)
  point P7 (244, 60)
  point P8 (244, 60)
  point P9 (244, 60)
  point P10 (244, 60)
  dimension "d1829" = 60
  dimension "d1833" = 240
  dimension "d1834" = 2
  dimension "d1835" = 0.4221
  dimension "d1836" = 0.7071
  dimension "d1837" = 0.4221
  dimension "d1842" = 2
  dimension "d1843" = 0.7071
  dimension "d1844" = 0.4221
  dimension "d1845" = 2
  dimension "d1846" = 0.4221
  dimension "d1848" = 2
  dimension "d1849" = 0.4221
  dimension "d1850" = 10.19
  dimension "d1862" = 0.4221
  dimension "d2106" = 14.905
  dimension "d2107" = 2
  dimension "d2109" = 9.81
  dimension "d2110" = 10.19
  dimension "d2111" = 30
  dimension "d2112" = 122
  dimension "d2113" = 58
  dimension "d2114" = 242
  dimension "d2115" = 3.175
  dimension "d2116" = 3.175
  dimension "d2117" = 9.81
  dimension "d2118" = 10.19
  dimension "d2119" = 10.19
  dimension "d2122" = 11.73
  dimension "d2123" = 3.175
  dimension "d2126" = 20
  dimension "d2127" = 0
  dimension "d2130" = 20
  dimension "d2131" = 0
  dimension "d2134" = 0
  dimension "d2135" = 20
  dimension "d2138" = 0
  dimension "d2139" = 20
sketch "Box Small Part" plane through (0, 0, 0) normal (0, 0, 1) x (1, 0, 0)
  line L0 (-286.905, 0) -> (-286.905, 1.5613)
  line L1 (-245.175, 0) -> (-245.175, 14.7758)
  line L2 (-243.5613, 35.905) -> (-242, 35.905)
  line L3 (-285.7758, 3.175) -> (-278.2242, 3.175)
  line L4 (-277.095, 1.5613) -> (-277.095, 0)
  line L5 (-243.5613, 15.905) -> (-242, 15.905)
  line L6 (-242, 26.095) -> (-242, 15.905)
  arc A0 (-243.5613, 15.905) -> (-245.175, 14.7758) centre (-244.4679, 15.4829) ccw
  arc A1 (-245.175, 27.2242) -> (-243.5613, 26.095) centre (-244.4679, 26.5171) ccw
  line L7 (-242, 26.095) -> (-243.5613, 26.095)
  line L8 (-245.175, 27.2242) -> (-245.175, 34.7758)
  arc A2 (-243.5613, 35.905) -> (-245.175, 34.7758) centre (-244.4679, 35.4829) ccw
  line L9 (-266.905, 0) -> (-277.095, 0)
  arc A3 (-285.7758, 3.175) -> (-286.905, 1.5613) centre (-286.4829, 2.4679) ccw
  arc A4 (-277.095, 1.5613) -> (-278.2242, 3.175) centre (-277.5171, 2.4679) ccw
  line L10 (-242, 46.095) -> (-242, 35.905)
  line L11 (-242, 66.095) -> (-242, 55.905)
  line L12 (-245.175, 47.2242) -> (-245.175, 54.7758)
  line L13 (-242, 46.095) -> (-243.5613, 46.095)
  line L14 (-243.5613, 55.905) -> (-242, 55.905)
  arc A5 (-245.175, 47.2242) -> (-243.5613, 46.095) centre (-244.4679, 46.5171) ccw
  arc A6 (-243.5613, 55.905) -> (-245.175, 54.7758) centre (-244.4679, 55.4829) ccw
  line L15 (-242, 86.095) -> (-242, 75.905)
  line L16 (-245.175, 67.2242) -> (-245.175, 74.7758)
  line L17 (-242, 66.095) -> (-243.5613, 66.095)
  line L18 (-243.5613, 75.905) -> (-242, 75.905)
  arc A7 (-245.175, 67.2242) -> (-243.5613, 66.095) centre (-244.4679, 66.5171) ccw
  arc A8 (-243.5613, 75.905) -> (-245.175, 74.7758) centre (-244.4679, 75.4829) ccw
  line L19 (-242, 106.095) -> (-242, 95.905)
  line L20 (-245.175, 87.2242) -> (-245.175, 94.7758)
  line L21 (-242, 86.095) -> (-243.5613, 86.095)
  line L22 (-243.5613, 95.905) -> (-242, 95.905)
  arc A9 (-245.175, 87.2242) -> (-243.5613, 86.095) centre (-244.4679, 86.5171) ccw
  arc A10 (-243.5613, 95.905) -> (-245.175, 94.7758) centre (-244.4679, 95.4829) ccw
  line L23 (-245.175, 0) -> (-246.905, 0)
  line L24 (-302, 182) -> (-242, 182) construction
  line L25 (-242, 182) -> (-242, 0) construction
  line L26 (-242, 0) -> (-302, 0) construction
  line L27 (-302, 0) -> (-302, 182) construction
  line L28 (-272, 182) -> (-272, 10.7369) construction
  arc A11 (-298.825, 14.7758) -> (-300.4387, 15.905) centre (-299.5321, 15.4829) ccw
  arc A12 (-300.4387, 26.095) -> (-298.825, 27.2242) centre (-299.5321, 26.5171) ccw
  line L29 (-302, 46.095) -> (-302, 35.905)
  line L30 (-300.4387, 35.905) -> (-302, 35.905)
  arc A13 (-298.825, 34.7758) -> (-300.4387, 35.905) centre (-299.5321, 35.4829) ccw
  line L31 (-298.825, 27.2242) -> (-298.825, 34.7758)
  line L32 (-298.825, 0) -> (-298.825, 14.7758)
  line L33 (-302, 26.095) -> (-302, 15.905)
  line L34 (-300.4387, 15.905) -> (-302, 15.905)
  line L35 (-302, 26.095) -> (-300.4387, 26.095)
  line L36 (-302, 66.095) -> (-302, 55.905)
  line L37 (-300.4387, 55.905) -> (-302, 55.905)
  line L38 (-298.825, 47.2242) -> (-298.825, 54.7758)
  line L39 (-302, 46.095) -> (-300.4387, 46.095)
  arc A14 (-300.4387, 46.095) -> (-298.825, 47.2242) centre (-299.5321, 46.5171) ccw
  arc A15 (-298.825, 54.7758) -> (-300.4387, 55.905) centre (-299.5321, 55.4829) ccw
  line L40 (-302, 86.095) -> (-302, 75.905)
  line L41 (-300.4387, 75.905) -> (-302, 75.905)
  line L42 (-298.825, 67.2242) -> (-298.825, 74.7758)
  line L43 (-302, 66.095) -> (-300.4387, 66.095)
  arc A16 (-300.4387, 66.095) -> (-298.825, 67.2242) centre (-299.5321, 66.5171) ccw
  arc A17 (-298.825, 74.7758) -> (-300.4387, 75.905) centre (-299.5321, 75.4829) ccw
  line L44 (-302, 106.095) -> (-302, 95.905)
  line L45 (-300.4387, 95.905) -> (-302, 95.905)
  line L46 (-298.825, 87.2242) -> (-298.825, 94.7758)
  line L47 (-302, 86.095) -> (-300.4387, 86.095)
  arc A18 (-300.4387, 86.095) -> (-298.825, 87.2242) centre (-299.5321, 86.5171) ccw
  arc A19 (-298.825, 94.7758) -> (-300.4387, 95.905) centre (-299.5321, 95.4829) ccw
  line L48 (-298.825, 0) -> (-286.905, 0)
  line L49 (-302, 91) -> (-242, 91) construction
  arc A20 (-300.4387, 166.095) -> (-298.825, 167.2242) centre (-299.5321, 166.5171) ccw
  line L50 (-300.4387, 166.095) -> (-302, 166.095)
  line L51 (-298.825, 182) -> (-298.825, 167.2242)
  line L52 (-243.5613, 166.095) -> (-242, 166.095)
  line L53 (-245.175, 182) -> (-245.175, 167.2242)
  arc A21 (-245.175, 167.2242) -> (-243.5613, 166.095) centre (-244.4679, 166.5171) ccw
  line L54 (-245.175, 182) -> (-246.905, 182)
  line L55 (-285.7758, 178.825) -> (-278.2242, 178.825)
  line L56 (-277.095, 180.4387) -> (-277.095, 182)
  arc A22 (-278.2242, 178.825) -> (-277.095, 180.4387) centre (-277.5171, 179.5321) ccw
  line L57 (-286.905, 182) -> (-286.905, 180.4387)
  line L58 (-298.825, 182) -> (-286.905, 182)
  arc A23 (-286.905, 180.4387) -> (-285.7758, 178.825) centre (-286.4829, 179.5321) ccw
  line L59 (-266.905, 182) -> (-277.095, 182)
  line L60 (-242, 126.095) -> (-242, 115.905)
  line L61 (-245.175, 107.2242) -> (-245.175, 114.7758)
  line L62 (-242, 106.095) -> (-243.5613, 106.095)
  line L63 (-243.5613, 115.905) -> (-242, 115.905)
  arc A24 (-245.175, 107.2242) -> (-243.5613, 106.095) centre (-244.4679, 106.5171) ccw
  arc A25 (-243.5613, 115.905) -> (-245.175, 114.7758) centre (-244.4679, 115.4829) ccw
  line L64 (-242, 146.095) -> (-242, 135.905)
  line L65 (-245.175, 127.2242) -> (-245.175, 134.7758)
  line L66 (-242, 126.095) -> (-243.5613, 126.095)
  line L67 (-243.5613, 135.905) -> (-242, 135.905)
  arc A26 (-245.175, 127.2242) -> (-243.5613, 126.095) centre (-244.4679, 126.5171) ccw
  arc A27 (-243.5613, 135.905) -> (-245.175, 134.7758) centre (-244.4679, 135.4829) ccw
  line L68 (-242, 166.095) -> (-242, 155.905)
  line L69 (-245.175, 147.2242) -> (-245.175, 154.7758)
  line L70 (-242, 146.095) -> (-243.5613, 146.095)
  line L71 (-243.5613, 155.905) -> (-242, 155.905)
  arc A28 (-245.175, 147.2242) -> (-243.5613, 146.095) centre (-244.4679, 146.5171) ccw
  arc A29 (-243.5613, 155.905) -> (-245.175, 154.7758) centre (-244.4679, 155.4829) ccw
  arc A30 (-265.7758, 3.175) -> (-266.905, 1.5613) centre (-266.4829, 2.4679) ccw
  line L72 (-265.7758, 3.175) -> (-258.2242, 3.175)
  line L73 (-246.905, 0) -> (-257.095, 0)
  line L74 (-266.905, 0) -> (-266.905, 1.5613)
  line L75 (-257.095, 1.5613) -> (-257.095, 0)
  arc A31 (-257.095, 1.5613) -> (-258.2242, 3.175) centre (-257.5171, 2.4679) ccw
  line L76 (-302, 126.095) -> (-302, 115.905)
  line L77 (-300.4387, 115.905) -> (-302, 115.905)
  line L78 (-298.825, 107.2242) -> (-298.825, 114.7758)
  line L79 (-302, 106.095) -> (-300.4387, 106.095)
  arc A32 (-300.4387, 106.095) -> (-298.825, 107.2242) centre (-299.5321, 106.5171) ccw
  arc A33 (-298.825, 114.7758) -> (-300.4387, 115.905) centre (-299.5321, 115.4829) ccw
  line L80 (-302, 146.095) -> (-302, 135.905)
  line L81 (-300.4387, 135.905) -> (-302, 135.905)
  line L82 (-298.825, 127.2242) -> (-298.825, 134.7758)
  line L83 (-302, 126.095) -> (-300.4387, 126.095)
  arc A34 (-300.4387, 126.095) -> (-298.825, 127.2242) centre (-299.5321, 126.5171) ccw
  arc A35 (-298.825, 134.7758) -> (-300.4387, 135.905) centre (-299.5321, 135.4829) ccw
  line L84 (-302, 166.095) -> (-302, 155.905)
  line L85 (-300.4387, 155.905) -> (-302, 155.905)
  line L86 (-298.825, 147.2242) -> (-298.825, 154.7758)
  line L87 (-302, 146.095) -> (-300.4387, 146.095)
  arc A36 (-300.4387, 146.095) -> (-298.825, 147.2242) centre (-299.5321, 146.5171) ccw
  arc A37 (-298.825, 154.7758) -> (-300.4387, 155.905) centre (-299.5321, 155.4829) ccw
  arc A38 (-266.905, 180.4387) -> (-265.7758, 178.825) centre (-266.4829, 179.5321) ccw
  line L88 (-257.095, 180.4387) -> (-257.095, 182)
  line L89 (-246.905, 182) -> (-257.095, 182)
  line L90 (-265.7758, 178.825) -> (-258.2242, 178.825)
  line L91 (-266.905, 182) -> (-266.905, 180.4387)
  arc A39 (-258.2242, 178.825) -> (-257.095, 180.4387) centre (-257.5171, 179.5321) ccw
  point P0 (-302, 0)
  point P1 (-266.095, 0)
  point P2 (-302, 182)
  point P3 (-266.095, 182)
  point P4 (-302, 182)
  point P5 (-242, 182)
  point P6 (-277.905, 182)
  point P7 (-285.905, 180.4387)
  point P8 (-284.7758, 178.825)
  point P9 (-285.4829, 179.5321)
  point P10 (-285.905, 182)
  point P11 (-302, 182)
  point P12 (-302, 182)
  point P13 (-266.095, 182)
  point P14 (-265.905, 180.4387)
  point P15 (-252, 182)
  point P16 (-264.7758, 178.825)
  point P17 (-265.905, 182)
  point P18 (-265.4829, 179.5321)
  dimension "d1887" = 2
  dimension "d1888" = 0.4221
  dimension "d1889" = 0.7071
  dimension "d1890" = 0.4221
  dimension "d1896" = 2
  dimension "d1899" = 2
  dimension "d1926" = 3.175
  dimension "d1948" = 0.7071
  dimension "d1949" = 0.4221
  dimension "d1951" = 0.4221
  dimension "d1953" = 9.81
  dimension "d1956" = 10.19
  dimension "d1958" = 0.4221
  dimension "d1959" = 0.7071
  dimension "d1960" = 0.7071
  dimension "d1961" = 9.81
  dimension "d1962" = 10.19
  dimension "d1963" = 242
  dimension "d1965" = 3.175
  dimension "d1975" = 15.905
  dimension "d1976" = 10.19
  dimension "d1992" = 20
  dimension "d1993" = 20
  dimension "d2004" = 20
  dimension "d2005" = 0
  dimension "d2012" = 1.73
  dimension "d2140" = 60
  dimension "d2141" = 182
  dimension "d2142" = 242
  dimension "d2145" = 15.095
  dimension "d2148" = 0
  dimension "d2149" = 20
  dimension "d2152" = 20
  dimension "d2153" = 0
extrude "Extrude22" add sketch "MyStock" along normal blind 3.175 separate body makes body 2
equation "fingerWidth = 10 mm"
equation "length = 240 mm"
equation "thickness = 3.175 mm"
equation "height = 60 mm"
equation "toolDiameter = 2 mm"
equation "d34 = toolDiameter"
equation "d36 = boneCenterToHoleSide"
equation "d37 = boneCenterToHoleBottom"
equation "d38 = boneCenterToHoleSide"
equation "boneCenterToHoleBottom = toolDiameter / 2 / sqrt(2) - 0 * kerf" comment "Best: 2.001 -2*kerf, 0.1;;;Best: 2.001 no kerf and 0.1   OLD+6 kerf at 2.001 Diam and .1 mm"
equation "tempLengthPieces = ceil(( ( floor(( length - 2 * thickness ) / fingerWidth) - 2 ) - ( ( floor(( length - 2 * thickness ) / fingerWidth) - 2 ) % 2 - 1 ) ))"
equation "lengthCuts = ceil(tempLengthPieces / 2)"
equation "shoulderToothLength = ( length - fingerWidth * tempLengthPieces ) / 2 - kerf"
equation "depth = 182 mm"
equation "tempDepthPieces = ceil(( ( floor(( depth - 2 * thickness ) / fingerWidth) - 2 ) - ( ( floor(( depth - 2 * thickness ) / fingerWidth) - 2 ) % 2 - 1 ) ))"
equation "depthCuts = ceil(tempDepthPieces / 2)"
equation "shoulderToothDepth = ( depth - fingerWidth * tempDepthPieces ) / 2 - kerf"
equation "d48 = toolDiameter"
equation "d49 = boneCenterToHoleSide"
equation "d50 = shoulderToothDepth"
equation "d52 = boneCenterToHoleSide"
equation "d54 = boneCenterToHoleBottom"
equation "d55 = holeWidth"
equation "tempHeightPieces = ceil(( ( floor(( height - 2 * thickness ) / fingerWidth) - 2 ) - ( ( floor(( height - 2 * thickness ) / fingerWidth) - 2 ) % 2 - 1 ) ))"
equation "heightCuts = ceil(tempHeightPieces / 2)"
equation "sholderToothHeight = ( height - fingerWidth * tempHeightPieces ) / 2 - kerf"
equation "d189 = shoulderToothLength"
equation "kerf = -0.095 mm"
equation "holeWidth = fingerWidth + 2 * kerf"
equation "shoulderHoleLength = shoulderToothLength + 2 * kerf"
equation "shouderHoleDepth = shoulderToothDepth + 2 * kerf"
equation "shoulderHoleHeight = sholderToothHeight + 2 * kerf"
equation "assembleScrewDiam = 2.1 mm"
equation "assembleScrewDistance = 6 mm"
equation "assembleAvoidCollisionDistance = 1 mm"
equation "coolingHoleDistance = 8 mm"
equation "boneCornerToCenterPack = -3 * kerf"
equation "boneCenterToHoleSide = boneCenterToHoleBottom - boneCornerToCenterPack"
equation "d473 = length"
equation "d479 = -toolDiameter / 2"
equation "pumpLength = 52 mm"
equation "pumpCircleDiam = 30 mm"
equation "pumpHeight = 34 mm"
equation "sensorWireDistance = 10 mm"
equation "sensorWireDiam = 3.5 mm"
equation "pumpScrewDiam = 3 mm"
equation "pcbMountHoles = 2 mm"
equation "ventDiameter = 3 mm"
equation "platformGrommetMountDiameter = 3.5 mm"
equation "hangerWireDiameter = 2 mm"
equation "topPillowHoleDistance = 22 mm"
equation "d1829 = height"
equation "d1833 = length"
equation "d1834 = toolDiameter"
equation "d1835 = boneCenterToHoleSide"
equation "d1836 = boneCenterToHoleBottom"
equation "d1837 = boneCenterToHoleSide"
equation "d1842 = toolDiameter"
equation "d1843 = boneCenterToHoleBottom"
equation "d1844 = boneCenterToHoleSide"
equation "d1845 = toolDiameter"
equation "d1846 = boneCenterToHoleSide"
equation "d1848 = toolDiameter"
equation "d1849 = boneCenterToHoleSide"
equation "d1850 = fingerWidth - 2 * kerf"
equation "d1862 = boneCenterToHoleSide"
equation "d1887 = toolDiameter"
equation "d1888 = boneCenterToHoleSide"
equation "d1889 = boneCenterToHoleBottom"
equation "d1890 = boneCenterToHoleSide"
equation "d1896 = toolDiameter"
equation "d1899 = toolDiameter"
equation "d1926 = thickness"
equation "d1948 = boneCenterToHoleBottom"
equation "d1949 = boneCenterToHoleSide"
equation "d1951 = boneCenterToHoleSide"
equation "d1953 = holeWidth"
equation "d1956 = fingerWidth - 2 * kerf"
equation "d1958 = boneCenterToHoleSide"
equation "d1959 = boneCenterToHoleBottom"
equation "d1960 = boneCenterToHoleBottom"
equation "d1961 = holeWidth"
equation "d1962 = fingerWidth - 2 * kerf"
equation "d1963 = length + toolDiameter"
equation "d1965 = thickness"
equation "d1975 = shouderHoleDepth"
equation "d1976 = fingerWidth - 2 * kerf"
equation "d1991 = depthCuts - 1"
equation "d1992 = 2 * fingerWidth"
equation "d1993 = 2 * fingerWidth"
equation "d2002 = heightCuts"
equation "d2004 = 2 * fingerWidth"
equation "d2012 = extraLineHeight"
equation "extraLineHeight = ( max(-appendix + ( sholderToothHeight - thickness ); 0.001 mm) )"
equation "appendix = fingerWidth - 2 * kerf"
equation "d2016 = 3 * thickness"
equation "d2017 = 3 * thickness"
equation "d2062 = appendix"
equation "d2063 = holeWidth"
equation "d2064 = thickness"
equation "d2068 = thickness"
equation "d2069 = appendix"
equation "d2071 = length / 2"
equation "d2072 = lengthCuts"
equation "d2074 = 2 * fingerWidth"
equation "d2076 = extraLineLength"
equation "extraLineLength = ( max(-appendix + ( shoulderToothLength ); 0.001 mm) )"
equation "d2079 = depthCuts"
equation "d2081 = 2 * fingerWidth"
equation "d2082 = lengthCuts"
equation "d2084 = 2 * fingerWidth"
equation "d2087 = extraLineLength"
equation "d2088 = depth"
equation "d2090 = depthCuts"
equation "d2092 = 2 * fingerWidth"
equation "d2095 = extraLineDepth"
equation "extraLineDepth = ( max(-appendix + ( shoulderToothDepth ); 0.001 mm) )"
equation "d2097 = extraLineDepth"
equation "d2098 = depth"
equation "d2102 = depth"
equation "d2103 = depth / 2"
equation "d2104 = thickness"
equation "d2106 = shoulderHoleLength"
equation "d2107 = toolDiameter"
equation "d2109 = holeWidth"
equation "d2110 = fingerWidth - 2 * kerf"
equation "d2111 = height / 2"
equation "d2112 = toolDiameter + length / 2"
equation "d2113 = height - toolDiameter"
equation "d2114 = length + toolDiameter"
equation "d2115 = thickness"
equation "d2116 = thickness"
equation "d2117 = holeWidth"
equation "d2118 = appendix"
equation "d2119 = appendix"
equation "d2122 = shoulderHoleHeight - thickness"
equation "d2124 = lengthCuts - 1"
equation "d2126 = 2 * fingerWidth"
equation "d2128 = lengthCuts - 1"
equation "d2130 = 2 * fingerWidth"
equation "d2133 = heightCuts - 1"
equation "d2135 = 2 * fingerWidth"
equation "d2137 = heightCuts - 1"
equation "d2139 = 2 * fingerWidth"
equation "d2140 = height"
equation "d2141 = depth"
equation "d2142 = toolDiameter + length"
equation "d2145 = sholderToothHeight"
equation "d2147 = depthCuts - 1"
equation "d2149 = 2 * fingerWidth"
equation "d2150 = heightCuts"
equation "d2152 = 2 * fingerWidth"
equation "d2154 = thickness"
